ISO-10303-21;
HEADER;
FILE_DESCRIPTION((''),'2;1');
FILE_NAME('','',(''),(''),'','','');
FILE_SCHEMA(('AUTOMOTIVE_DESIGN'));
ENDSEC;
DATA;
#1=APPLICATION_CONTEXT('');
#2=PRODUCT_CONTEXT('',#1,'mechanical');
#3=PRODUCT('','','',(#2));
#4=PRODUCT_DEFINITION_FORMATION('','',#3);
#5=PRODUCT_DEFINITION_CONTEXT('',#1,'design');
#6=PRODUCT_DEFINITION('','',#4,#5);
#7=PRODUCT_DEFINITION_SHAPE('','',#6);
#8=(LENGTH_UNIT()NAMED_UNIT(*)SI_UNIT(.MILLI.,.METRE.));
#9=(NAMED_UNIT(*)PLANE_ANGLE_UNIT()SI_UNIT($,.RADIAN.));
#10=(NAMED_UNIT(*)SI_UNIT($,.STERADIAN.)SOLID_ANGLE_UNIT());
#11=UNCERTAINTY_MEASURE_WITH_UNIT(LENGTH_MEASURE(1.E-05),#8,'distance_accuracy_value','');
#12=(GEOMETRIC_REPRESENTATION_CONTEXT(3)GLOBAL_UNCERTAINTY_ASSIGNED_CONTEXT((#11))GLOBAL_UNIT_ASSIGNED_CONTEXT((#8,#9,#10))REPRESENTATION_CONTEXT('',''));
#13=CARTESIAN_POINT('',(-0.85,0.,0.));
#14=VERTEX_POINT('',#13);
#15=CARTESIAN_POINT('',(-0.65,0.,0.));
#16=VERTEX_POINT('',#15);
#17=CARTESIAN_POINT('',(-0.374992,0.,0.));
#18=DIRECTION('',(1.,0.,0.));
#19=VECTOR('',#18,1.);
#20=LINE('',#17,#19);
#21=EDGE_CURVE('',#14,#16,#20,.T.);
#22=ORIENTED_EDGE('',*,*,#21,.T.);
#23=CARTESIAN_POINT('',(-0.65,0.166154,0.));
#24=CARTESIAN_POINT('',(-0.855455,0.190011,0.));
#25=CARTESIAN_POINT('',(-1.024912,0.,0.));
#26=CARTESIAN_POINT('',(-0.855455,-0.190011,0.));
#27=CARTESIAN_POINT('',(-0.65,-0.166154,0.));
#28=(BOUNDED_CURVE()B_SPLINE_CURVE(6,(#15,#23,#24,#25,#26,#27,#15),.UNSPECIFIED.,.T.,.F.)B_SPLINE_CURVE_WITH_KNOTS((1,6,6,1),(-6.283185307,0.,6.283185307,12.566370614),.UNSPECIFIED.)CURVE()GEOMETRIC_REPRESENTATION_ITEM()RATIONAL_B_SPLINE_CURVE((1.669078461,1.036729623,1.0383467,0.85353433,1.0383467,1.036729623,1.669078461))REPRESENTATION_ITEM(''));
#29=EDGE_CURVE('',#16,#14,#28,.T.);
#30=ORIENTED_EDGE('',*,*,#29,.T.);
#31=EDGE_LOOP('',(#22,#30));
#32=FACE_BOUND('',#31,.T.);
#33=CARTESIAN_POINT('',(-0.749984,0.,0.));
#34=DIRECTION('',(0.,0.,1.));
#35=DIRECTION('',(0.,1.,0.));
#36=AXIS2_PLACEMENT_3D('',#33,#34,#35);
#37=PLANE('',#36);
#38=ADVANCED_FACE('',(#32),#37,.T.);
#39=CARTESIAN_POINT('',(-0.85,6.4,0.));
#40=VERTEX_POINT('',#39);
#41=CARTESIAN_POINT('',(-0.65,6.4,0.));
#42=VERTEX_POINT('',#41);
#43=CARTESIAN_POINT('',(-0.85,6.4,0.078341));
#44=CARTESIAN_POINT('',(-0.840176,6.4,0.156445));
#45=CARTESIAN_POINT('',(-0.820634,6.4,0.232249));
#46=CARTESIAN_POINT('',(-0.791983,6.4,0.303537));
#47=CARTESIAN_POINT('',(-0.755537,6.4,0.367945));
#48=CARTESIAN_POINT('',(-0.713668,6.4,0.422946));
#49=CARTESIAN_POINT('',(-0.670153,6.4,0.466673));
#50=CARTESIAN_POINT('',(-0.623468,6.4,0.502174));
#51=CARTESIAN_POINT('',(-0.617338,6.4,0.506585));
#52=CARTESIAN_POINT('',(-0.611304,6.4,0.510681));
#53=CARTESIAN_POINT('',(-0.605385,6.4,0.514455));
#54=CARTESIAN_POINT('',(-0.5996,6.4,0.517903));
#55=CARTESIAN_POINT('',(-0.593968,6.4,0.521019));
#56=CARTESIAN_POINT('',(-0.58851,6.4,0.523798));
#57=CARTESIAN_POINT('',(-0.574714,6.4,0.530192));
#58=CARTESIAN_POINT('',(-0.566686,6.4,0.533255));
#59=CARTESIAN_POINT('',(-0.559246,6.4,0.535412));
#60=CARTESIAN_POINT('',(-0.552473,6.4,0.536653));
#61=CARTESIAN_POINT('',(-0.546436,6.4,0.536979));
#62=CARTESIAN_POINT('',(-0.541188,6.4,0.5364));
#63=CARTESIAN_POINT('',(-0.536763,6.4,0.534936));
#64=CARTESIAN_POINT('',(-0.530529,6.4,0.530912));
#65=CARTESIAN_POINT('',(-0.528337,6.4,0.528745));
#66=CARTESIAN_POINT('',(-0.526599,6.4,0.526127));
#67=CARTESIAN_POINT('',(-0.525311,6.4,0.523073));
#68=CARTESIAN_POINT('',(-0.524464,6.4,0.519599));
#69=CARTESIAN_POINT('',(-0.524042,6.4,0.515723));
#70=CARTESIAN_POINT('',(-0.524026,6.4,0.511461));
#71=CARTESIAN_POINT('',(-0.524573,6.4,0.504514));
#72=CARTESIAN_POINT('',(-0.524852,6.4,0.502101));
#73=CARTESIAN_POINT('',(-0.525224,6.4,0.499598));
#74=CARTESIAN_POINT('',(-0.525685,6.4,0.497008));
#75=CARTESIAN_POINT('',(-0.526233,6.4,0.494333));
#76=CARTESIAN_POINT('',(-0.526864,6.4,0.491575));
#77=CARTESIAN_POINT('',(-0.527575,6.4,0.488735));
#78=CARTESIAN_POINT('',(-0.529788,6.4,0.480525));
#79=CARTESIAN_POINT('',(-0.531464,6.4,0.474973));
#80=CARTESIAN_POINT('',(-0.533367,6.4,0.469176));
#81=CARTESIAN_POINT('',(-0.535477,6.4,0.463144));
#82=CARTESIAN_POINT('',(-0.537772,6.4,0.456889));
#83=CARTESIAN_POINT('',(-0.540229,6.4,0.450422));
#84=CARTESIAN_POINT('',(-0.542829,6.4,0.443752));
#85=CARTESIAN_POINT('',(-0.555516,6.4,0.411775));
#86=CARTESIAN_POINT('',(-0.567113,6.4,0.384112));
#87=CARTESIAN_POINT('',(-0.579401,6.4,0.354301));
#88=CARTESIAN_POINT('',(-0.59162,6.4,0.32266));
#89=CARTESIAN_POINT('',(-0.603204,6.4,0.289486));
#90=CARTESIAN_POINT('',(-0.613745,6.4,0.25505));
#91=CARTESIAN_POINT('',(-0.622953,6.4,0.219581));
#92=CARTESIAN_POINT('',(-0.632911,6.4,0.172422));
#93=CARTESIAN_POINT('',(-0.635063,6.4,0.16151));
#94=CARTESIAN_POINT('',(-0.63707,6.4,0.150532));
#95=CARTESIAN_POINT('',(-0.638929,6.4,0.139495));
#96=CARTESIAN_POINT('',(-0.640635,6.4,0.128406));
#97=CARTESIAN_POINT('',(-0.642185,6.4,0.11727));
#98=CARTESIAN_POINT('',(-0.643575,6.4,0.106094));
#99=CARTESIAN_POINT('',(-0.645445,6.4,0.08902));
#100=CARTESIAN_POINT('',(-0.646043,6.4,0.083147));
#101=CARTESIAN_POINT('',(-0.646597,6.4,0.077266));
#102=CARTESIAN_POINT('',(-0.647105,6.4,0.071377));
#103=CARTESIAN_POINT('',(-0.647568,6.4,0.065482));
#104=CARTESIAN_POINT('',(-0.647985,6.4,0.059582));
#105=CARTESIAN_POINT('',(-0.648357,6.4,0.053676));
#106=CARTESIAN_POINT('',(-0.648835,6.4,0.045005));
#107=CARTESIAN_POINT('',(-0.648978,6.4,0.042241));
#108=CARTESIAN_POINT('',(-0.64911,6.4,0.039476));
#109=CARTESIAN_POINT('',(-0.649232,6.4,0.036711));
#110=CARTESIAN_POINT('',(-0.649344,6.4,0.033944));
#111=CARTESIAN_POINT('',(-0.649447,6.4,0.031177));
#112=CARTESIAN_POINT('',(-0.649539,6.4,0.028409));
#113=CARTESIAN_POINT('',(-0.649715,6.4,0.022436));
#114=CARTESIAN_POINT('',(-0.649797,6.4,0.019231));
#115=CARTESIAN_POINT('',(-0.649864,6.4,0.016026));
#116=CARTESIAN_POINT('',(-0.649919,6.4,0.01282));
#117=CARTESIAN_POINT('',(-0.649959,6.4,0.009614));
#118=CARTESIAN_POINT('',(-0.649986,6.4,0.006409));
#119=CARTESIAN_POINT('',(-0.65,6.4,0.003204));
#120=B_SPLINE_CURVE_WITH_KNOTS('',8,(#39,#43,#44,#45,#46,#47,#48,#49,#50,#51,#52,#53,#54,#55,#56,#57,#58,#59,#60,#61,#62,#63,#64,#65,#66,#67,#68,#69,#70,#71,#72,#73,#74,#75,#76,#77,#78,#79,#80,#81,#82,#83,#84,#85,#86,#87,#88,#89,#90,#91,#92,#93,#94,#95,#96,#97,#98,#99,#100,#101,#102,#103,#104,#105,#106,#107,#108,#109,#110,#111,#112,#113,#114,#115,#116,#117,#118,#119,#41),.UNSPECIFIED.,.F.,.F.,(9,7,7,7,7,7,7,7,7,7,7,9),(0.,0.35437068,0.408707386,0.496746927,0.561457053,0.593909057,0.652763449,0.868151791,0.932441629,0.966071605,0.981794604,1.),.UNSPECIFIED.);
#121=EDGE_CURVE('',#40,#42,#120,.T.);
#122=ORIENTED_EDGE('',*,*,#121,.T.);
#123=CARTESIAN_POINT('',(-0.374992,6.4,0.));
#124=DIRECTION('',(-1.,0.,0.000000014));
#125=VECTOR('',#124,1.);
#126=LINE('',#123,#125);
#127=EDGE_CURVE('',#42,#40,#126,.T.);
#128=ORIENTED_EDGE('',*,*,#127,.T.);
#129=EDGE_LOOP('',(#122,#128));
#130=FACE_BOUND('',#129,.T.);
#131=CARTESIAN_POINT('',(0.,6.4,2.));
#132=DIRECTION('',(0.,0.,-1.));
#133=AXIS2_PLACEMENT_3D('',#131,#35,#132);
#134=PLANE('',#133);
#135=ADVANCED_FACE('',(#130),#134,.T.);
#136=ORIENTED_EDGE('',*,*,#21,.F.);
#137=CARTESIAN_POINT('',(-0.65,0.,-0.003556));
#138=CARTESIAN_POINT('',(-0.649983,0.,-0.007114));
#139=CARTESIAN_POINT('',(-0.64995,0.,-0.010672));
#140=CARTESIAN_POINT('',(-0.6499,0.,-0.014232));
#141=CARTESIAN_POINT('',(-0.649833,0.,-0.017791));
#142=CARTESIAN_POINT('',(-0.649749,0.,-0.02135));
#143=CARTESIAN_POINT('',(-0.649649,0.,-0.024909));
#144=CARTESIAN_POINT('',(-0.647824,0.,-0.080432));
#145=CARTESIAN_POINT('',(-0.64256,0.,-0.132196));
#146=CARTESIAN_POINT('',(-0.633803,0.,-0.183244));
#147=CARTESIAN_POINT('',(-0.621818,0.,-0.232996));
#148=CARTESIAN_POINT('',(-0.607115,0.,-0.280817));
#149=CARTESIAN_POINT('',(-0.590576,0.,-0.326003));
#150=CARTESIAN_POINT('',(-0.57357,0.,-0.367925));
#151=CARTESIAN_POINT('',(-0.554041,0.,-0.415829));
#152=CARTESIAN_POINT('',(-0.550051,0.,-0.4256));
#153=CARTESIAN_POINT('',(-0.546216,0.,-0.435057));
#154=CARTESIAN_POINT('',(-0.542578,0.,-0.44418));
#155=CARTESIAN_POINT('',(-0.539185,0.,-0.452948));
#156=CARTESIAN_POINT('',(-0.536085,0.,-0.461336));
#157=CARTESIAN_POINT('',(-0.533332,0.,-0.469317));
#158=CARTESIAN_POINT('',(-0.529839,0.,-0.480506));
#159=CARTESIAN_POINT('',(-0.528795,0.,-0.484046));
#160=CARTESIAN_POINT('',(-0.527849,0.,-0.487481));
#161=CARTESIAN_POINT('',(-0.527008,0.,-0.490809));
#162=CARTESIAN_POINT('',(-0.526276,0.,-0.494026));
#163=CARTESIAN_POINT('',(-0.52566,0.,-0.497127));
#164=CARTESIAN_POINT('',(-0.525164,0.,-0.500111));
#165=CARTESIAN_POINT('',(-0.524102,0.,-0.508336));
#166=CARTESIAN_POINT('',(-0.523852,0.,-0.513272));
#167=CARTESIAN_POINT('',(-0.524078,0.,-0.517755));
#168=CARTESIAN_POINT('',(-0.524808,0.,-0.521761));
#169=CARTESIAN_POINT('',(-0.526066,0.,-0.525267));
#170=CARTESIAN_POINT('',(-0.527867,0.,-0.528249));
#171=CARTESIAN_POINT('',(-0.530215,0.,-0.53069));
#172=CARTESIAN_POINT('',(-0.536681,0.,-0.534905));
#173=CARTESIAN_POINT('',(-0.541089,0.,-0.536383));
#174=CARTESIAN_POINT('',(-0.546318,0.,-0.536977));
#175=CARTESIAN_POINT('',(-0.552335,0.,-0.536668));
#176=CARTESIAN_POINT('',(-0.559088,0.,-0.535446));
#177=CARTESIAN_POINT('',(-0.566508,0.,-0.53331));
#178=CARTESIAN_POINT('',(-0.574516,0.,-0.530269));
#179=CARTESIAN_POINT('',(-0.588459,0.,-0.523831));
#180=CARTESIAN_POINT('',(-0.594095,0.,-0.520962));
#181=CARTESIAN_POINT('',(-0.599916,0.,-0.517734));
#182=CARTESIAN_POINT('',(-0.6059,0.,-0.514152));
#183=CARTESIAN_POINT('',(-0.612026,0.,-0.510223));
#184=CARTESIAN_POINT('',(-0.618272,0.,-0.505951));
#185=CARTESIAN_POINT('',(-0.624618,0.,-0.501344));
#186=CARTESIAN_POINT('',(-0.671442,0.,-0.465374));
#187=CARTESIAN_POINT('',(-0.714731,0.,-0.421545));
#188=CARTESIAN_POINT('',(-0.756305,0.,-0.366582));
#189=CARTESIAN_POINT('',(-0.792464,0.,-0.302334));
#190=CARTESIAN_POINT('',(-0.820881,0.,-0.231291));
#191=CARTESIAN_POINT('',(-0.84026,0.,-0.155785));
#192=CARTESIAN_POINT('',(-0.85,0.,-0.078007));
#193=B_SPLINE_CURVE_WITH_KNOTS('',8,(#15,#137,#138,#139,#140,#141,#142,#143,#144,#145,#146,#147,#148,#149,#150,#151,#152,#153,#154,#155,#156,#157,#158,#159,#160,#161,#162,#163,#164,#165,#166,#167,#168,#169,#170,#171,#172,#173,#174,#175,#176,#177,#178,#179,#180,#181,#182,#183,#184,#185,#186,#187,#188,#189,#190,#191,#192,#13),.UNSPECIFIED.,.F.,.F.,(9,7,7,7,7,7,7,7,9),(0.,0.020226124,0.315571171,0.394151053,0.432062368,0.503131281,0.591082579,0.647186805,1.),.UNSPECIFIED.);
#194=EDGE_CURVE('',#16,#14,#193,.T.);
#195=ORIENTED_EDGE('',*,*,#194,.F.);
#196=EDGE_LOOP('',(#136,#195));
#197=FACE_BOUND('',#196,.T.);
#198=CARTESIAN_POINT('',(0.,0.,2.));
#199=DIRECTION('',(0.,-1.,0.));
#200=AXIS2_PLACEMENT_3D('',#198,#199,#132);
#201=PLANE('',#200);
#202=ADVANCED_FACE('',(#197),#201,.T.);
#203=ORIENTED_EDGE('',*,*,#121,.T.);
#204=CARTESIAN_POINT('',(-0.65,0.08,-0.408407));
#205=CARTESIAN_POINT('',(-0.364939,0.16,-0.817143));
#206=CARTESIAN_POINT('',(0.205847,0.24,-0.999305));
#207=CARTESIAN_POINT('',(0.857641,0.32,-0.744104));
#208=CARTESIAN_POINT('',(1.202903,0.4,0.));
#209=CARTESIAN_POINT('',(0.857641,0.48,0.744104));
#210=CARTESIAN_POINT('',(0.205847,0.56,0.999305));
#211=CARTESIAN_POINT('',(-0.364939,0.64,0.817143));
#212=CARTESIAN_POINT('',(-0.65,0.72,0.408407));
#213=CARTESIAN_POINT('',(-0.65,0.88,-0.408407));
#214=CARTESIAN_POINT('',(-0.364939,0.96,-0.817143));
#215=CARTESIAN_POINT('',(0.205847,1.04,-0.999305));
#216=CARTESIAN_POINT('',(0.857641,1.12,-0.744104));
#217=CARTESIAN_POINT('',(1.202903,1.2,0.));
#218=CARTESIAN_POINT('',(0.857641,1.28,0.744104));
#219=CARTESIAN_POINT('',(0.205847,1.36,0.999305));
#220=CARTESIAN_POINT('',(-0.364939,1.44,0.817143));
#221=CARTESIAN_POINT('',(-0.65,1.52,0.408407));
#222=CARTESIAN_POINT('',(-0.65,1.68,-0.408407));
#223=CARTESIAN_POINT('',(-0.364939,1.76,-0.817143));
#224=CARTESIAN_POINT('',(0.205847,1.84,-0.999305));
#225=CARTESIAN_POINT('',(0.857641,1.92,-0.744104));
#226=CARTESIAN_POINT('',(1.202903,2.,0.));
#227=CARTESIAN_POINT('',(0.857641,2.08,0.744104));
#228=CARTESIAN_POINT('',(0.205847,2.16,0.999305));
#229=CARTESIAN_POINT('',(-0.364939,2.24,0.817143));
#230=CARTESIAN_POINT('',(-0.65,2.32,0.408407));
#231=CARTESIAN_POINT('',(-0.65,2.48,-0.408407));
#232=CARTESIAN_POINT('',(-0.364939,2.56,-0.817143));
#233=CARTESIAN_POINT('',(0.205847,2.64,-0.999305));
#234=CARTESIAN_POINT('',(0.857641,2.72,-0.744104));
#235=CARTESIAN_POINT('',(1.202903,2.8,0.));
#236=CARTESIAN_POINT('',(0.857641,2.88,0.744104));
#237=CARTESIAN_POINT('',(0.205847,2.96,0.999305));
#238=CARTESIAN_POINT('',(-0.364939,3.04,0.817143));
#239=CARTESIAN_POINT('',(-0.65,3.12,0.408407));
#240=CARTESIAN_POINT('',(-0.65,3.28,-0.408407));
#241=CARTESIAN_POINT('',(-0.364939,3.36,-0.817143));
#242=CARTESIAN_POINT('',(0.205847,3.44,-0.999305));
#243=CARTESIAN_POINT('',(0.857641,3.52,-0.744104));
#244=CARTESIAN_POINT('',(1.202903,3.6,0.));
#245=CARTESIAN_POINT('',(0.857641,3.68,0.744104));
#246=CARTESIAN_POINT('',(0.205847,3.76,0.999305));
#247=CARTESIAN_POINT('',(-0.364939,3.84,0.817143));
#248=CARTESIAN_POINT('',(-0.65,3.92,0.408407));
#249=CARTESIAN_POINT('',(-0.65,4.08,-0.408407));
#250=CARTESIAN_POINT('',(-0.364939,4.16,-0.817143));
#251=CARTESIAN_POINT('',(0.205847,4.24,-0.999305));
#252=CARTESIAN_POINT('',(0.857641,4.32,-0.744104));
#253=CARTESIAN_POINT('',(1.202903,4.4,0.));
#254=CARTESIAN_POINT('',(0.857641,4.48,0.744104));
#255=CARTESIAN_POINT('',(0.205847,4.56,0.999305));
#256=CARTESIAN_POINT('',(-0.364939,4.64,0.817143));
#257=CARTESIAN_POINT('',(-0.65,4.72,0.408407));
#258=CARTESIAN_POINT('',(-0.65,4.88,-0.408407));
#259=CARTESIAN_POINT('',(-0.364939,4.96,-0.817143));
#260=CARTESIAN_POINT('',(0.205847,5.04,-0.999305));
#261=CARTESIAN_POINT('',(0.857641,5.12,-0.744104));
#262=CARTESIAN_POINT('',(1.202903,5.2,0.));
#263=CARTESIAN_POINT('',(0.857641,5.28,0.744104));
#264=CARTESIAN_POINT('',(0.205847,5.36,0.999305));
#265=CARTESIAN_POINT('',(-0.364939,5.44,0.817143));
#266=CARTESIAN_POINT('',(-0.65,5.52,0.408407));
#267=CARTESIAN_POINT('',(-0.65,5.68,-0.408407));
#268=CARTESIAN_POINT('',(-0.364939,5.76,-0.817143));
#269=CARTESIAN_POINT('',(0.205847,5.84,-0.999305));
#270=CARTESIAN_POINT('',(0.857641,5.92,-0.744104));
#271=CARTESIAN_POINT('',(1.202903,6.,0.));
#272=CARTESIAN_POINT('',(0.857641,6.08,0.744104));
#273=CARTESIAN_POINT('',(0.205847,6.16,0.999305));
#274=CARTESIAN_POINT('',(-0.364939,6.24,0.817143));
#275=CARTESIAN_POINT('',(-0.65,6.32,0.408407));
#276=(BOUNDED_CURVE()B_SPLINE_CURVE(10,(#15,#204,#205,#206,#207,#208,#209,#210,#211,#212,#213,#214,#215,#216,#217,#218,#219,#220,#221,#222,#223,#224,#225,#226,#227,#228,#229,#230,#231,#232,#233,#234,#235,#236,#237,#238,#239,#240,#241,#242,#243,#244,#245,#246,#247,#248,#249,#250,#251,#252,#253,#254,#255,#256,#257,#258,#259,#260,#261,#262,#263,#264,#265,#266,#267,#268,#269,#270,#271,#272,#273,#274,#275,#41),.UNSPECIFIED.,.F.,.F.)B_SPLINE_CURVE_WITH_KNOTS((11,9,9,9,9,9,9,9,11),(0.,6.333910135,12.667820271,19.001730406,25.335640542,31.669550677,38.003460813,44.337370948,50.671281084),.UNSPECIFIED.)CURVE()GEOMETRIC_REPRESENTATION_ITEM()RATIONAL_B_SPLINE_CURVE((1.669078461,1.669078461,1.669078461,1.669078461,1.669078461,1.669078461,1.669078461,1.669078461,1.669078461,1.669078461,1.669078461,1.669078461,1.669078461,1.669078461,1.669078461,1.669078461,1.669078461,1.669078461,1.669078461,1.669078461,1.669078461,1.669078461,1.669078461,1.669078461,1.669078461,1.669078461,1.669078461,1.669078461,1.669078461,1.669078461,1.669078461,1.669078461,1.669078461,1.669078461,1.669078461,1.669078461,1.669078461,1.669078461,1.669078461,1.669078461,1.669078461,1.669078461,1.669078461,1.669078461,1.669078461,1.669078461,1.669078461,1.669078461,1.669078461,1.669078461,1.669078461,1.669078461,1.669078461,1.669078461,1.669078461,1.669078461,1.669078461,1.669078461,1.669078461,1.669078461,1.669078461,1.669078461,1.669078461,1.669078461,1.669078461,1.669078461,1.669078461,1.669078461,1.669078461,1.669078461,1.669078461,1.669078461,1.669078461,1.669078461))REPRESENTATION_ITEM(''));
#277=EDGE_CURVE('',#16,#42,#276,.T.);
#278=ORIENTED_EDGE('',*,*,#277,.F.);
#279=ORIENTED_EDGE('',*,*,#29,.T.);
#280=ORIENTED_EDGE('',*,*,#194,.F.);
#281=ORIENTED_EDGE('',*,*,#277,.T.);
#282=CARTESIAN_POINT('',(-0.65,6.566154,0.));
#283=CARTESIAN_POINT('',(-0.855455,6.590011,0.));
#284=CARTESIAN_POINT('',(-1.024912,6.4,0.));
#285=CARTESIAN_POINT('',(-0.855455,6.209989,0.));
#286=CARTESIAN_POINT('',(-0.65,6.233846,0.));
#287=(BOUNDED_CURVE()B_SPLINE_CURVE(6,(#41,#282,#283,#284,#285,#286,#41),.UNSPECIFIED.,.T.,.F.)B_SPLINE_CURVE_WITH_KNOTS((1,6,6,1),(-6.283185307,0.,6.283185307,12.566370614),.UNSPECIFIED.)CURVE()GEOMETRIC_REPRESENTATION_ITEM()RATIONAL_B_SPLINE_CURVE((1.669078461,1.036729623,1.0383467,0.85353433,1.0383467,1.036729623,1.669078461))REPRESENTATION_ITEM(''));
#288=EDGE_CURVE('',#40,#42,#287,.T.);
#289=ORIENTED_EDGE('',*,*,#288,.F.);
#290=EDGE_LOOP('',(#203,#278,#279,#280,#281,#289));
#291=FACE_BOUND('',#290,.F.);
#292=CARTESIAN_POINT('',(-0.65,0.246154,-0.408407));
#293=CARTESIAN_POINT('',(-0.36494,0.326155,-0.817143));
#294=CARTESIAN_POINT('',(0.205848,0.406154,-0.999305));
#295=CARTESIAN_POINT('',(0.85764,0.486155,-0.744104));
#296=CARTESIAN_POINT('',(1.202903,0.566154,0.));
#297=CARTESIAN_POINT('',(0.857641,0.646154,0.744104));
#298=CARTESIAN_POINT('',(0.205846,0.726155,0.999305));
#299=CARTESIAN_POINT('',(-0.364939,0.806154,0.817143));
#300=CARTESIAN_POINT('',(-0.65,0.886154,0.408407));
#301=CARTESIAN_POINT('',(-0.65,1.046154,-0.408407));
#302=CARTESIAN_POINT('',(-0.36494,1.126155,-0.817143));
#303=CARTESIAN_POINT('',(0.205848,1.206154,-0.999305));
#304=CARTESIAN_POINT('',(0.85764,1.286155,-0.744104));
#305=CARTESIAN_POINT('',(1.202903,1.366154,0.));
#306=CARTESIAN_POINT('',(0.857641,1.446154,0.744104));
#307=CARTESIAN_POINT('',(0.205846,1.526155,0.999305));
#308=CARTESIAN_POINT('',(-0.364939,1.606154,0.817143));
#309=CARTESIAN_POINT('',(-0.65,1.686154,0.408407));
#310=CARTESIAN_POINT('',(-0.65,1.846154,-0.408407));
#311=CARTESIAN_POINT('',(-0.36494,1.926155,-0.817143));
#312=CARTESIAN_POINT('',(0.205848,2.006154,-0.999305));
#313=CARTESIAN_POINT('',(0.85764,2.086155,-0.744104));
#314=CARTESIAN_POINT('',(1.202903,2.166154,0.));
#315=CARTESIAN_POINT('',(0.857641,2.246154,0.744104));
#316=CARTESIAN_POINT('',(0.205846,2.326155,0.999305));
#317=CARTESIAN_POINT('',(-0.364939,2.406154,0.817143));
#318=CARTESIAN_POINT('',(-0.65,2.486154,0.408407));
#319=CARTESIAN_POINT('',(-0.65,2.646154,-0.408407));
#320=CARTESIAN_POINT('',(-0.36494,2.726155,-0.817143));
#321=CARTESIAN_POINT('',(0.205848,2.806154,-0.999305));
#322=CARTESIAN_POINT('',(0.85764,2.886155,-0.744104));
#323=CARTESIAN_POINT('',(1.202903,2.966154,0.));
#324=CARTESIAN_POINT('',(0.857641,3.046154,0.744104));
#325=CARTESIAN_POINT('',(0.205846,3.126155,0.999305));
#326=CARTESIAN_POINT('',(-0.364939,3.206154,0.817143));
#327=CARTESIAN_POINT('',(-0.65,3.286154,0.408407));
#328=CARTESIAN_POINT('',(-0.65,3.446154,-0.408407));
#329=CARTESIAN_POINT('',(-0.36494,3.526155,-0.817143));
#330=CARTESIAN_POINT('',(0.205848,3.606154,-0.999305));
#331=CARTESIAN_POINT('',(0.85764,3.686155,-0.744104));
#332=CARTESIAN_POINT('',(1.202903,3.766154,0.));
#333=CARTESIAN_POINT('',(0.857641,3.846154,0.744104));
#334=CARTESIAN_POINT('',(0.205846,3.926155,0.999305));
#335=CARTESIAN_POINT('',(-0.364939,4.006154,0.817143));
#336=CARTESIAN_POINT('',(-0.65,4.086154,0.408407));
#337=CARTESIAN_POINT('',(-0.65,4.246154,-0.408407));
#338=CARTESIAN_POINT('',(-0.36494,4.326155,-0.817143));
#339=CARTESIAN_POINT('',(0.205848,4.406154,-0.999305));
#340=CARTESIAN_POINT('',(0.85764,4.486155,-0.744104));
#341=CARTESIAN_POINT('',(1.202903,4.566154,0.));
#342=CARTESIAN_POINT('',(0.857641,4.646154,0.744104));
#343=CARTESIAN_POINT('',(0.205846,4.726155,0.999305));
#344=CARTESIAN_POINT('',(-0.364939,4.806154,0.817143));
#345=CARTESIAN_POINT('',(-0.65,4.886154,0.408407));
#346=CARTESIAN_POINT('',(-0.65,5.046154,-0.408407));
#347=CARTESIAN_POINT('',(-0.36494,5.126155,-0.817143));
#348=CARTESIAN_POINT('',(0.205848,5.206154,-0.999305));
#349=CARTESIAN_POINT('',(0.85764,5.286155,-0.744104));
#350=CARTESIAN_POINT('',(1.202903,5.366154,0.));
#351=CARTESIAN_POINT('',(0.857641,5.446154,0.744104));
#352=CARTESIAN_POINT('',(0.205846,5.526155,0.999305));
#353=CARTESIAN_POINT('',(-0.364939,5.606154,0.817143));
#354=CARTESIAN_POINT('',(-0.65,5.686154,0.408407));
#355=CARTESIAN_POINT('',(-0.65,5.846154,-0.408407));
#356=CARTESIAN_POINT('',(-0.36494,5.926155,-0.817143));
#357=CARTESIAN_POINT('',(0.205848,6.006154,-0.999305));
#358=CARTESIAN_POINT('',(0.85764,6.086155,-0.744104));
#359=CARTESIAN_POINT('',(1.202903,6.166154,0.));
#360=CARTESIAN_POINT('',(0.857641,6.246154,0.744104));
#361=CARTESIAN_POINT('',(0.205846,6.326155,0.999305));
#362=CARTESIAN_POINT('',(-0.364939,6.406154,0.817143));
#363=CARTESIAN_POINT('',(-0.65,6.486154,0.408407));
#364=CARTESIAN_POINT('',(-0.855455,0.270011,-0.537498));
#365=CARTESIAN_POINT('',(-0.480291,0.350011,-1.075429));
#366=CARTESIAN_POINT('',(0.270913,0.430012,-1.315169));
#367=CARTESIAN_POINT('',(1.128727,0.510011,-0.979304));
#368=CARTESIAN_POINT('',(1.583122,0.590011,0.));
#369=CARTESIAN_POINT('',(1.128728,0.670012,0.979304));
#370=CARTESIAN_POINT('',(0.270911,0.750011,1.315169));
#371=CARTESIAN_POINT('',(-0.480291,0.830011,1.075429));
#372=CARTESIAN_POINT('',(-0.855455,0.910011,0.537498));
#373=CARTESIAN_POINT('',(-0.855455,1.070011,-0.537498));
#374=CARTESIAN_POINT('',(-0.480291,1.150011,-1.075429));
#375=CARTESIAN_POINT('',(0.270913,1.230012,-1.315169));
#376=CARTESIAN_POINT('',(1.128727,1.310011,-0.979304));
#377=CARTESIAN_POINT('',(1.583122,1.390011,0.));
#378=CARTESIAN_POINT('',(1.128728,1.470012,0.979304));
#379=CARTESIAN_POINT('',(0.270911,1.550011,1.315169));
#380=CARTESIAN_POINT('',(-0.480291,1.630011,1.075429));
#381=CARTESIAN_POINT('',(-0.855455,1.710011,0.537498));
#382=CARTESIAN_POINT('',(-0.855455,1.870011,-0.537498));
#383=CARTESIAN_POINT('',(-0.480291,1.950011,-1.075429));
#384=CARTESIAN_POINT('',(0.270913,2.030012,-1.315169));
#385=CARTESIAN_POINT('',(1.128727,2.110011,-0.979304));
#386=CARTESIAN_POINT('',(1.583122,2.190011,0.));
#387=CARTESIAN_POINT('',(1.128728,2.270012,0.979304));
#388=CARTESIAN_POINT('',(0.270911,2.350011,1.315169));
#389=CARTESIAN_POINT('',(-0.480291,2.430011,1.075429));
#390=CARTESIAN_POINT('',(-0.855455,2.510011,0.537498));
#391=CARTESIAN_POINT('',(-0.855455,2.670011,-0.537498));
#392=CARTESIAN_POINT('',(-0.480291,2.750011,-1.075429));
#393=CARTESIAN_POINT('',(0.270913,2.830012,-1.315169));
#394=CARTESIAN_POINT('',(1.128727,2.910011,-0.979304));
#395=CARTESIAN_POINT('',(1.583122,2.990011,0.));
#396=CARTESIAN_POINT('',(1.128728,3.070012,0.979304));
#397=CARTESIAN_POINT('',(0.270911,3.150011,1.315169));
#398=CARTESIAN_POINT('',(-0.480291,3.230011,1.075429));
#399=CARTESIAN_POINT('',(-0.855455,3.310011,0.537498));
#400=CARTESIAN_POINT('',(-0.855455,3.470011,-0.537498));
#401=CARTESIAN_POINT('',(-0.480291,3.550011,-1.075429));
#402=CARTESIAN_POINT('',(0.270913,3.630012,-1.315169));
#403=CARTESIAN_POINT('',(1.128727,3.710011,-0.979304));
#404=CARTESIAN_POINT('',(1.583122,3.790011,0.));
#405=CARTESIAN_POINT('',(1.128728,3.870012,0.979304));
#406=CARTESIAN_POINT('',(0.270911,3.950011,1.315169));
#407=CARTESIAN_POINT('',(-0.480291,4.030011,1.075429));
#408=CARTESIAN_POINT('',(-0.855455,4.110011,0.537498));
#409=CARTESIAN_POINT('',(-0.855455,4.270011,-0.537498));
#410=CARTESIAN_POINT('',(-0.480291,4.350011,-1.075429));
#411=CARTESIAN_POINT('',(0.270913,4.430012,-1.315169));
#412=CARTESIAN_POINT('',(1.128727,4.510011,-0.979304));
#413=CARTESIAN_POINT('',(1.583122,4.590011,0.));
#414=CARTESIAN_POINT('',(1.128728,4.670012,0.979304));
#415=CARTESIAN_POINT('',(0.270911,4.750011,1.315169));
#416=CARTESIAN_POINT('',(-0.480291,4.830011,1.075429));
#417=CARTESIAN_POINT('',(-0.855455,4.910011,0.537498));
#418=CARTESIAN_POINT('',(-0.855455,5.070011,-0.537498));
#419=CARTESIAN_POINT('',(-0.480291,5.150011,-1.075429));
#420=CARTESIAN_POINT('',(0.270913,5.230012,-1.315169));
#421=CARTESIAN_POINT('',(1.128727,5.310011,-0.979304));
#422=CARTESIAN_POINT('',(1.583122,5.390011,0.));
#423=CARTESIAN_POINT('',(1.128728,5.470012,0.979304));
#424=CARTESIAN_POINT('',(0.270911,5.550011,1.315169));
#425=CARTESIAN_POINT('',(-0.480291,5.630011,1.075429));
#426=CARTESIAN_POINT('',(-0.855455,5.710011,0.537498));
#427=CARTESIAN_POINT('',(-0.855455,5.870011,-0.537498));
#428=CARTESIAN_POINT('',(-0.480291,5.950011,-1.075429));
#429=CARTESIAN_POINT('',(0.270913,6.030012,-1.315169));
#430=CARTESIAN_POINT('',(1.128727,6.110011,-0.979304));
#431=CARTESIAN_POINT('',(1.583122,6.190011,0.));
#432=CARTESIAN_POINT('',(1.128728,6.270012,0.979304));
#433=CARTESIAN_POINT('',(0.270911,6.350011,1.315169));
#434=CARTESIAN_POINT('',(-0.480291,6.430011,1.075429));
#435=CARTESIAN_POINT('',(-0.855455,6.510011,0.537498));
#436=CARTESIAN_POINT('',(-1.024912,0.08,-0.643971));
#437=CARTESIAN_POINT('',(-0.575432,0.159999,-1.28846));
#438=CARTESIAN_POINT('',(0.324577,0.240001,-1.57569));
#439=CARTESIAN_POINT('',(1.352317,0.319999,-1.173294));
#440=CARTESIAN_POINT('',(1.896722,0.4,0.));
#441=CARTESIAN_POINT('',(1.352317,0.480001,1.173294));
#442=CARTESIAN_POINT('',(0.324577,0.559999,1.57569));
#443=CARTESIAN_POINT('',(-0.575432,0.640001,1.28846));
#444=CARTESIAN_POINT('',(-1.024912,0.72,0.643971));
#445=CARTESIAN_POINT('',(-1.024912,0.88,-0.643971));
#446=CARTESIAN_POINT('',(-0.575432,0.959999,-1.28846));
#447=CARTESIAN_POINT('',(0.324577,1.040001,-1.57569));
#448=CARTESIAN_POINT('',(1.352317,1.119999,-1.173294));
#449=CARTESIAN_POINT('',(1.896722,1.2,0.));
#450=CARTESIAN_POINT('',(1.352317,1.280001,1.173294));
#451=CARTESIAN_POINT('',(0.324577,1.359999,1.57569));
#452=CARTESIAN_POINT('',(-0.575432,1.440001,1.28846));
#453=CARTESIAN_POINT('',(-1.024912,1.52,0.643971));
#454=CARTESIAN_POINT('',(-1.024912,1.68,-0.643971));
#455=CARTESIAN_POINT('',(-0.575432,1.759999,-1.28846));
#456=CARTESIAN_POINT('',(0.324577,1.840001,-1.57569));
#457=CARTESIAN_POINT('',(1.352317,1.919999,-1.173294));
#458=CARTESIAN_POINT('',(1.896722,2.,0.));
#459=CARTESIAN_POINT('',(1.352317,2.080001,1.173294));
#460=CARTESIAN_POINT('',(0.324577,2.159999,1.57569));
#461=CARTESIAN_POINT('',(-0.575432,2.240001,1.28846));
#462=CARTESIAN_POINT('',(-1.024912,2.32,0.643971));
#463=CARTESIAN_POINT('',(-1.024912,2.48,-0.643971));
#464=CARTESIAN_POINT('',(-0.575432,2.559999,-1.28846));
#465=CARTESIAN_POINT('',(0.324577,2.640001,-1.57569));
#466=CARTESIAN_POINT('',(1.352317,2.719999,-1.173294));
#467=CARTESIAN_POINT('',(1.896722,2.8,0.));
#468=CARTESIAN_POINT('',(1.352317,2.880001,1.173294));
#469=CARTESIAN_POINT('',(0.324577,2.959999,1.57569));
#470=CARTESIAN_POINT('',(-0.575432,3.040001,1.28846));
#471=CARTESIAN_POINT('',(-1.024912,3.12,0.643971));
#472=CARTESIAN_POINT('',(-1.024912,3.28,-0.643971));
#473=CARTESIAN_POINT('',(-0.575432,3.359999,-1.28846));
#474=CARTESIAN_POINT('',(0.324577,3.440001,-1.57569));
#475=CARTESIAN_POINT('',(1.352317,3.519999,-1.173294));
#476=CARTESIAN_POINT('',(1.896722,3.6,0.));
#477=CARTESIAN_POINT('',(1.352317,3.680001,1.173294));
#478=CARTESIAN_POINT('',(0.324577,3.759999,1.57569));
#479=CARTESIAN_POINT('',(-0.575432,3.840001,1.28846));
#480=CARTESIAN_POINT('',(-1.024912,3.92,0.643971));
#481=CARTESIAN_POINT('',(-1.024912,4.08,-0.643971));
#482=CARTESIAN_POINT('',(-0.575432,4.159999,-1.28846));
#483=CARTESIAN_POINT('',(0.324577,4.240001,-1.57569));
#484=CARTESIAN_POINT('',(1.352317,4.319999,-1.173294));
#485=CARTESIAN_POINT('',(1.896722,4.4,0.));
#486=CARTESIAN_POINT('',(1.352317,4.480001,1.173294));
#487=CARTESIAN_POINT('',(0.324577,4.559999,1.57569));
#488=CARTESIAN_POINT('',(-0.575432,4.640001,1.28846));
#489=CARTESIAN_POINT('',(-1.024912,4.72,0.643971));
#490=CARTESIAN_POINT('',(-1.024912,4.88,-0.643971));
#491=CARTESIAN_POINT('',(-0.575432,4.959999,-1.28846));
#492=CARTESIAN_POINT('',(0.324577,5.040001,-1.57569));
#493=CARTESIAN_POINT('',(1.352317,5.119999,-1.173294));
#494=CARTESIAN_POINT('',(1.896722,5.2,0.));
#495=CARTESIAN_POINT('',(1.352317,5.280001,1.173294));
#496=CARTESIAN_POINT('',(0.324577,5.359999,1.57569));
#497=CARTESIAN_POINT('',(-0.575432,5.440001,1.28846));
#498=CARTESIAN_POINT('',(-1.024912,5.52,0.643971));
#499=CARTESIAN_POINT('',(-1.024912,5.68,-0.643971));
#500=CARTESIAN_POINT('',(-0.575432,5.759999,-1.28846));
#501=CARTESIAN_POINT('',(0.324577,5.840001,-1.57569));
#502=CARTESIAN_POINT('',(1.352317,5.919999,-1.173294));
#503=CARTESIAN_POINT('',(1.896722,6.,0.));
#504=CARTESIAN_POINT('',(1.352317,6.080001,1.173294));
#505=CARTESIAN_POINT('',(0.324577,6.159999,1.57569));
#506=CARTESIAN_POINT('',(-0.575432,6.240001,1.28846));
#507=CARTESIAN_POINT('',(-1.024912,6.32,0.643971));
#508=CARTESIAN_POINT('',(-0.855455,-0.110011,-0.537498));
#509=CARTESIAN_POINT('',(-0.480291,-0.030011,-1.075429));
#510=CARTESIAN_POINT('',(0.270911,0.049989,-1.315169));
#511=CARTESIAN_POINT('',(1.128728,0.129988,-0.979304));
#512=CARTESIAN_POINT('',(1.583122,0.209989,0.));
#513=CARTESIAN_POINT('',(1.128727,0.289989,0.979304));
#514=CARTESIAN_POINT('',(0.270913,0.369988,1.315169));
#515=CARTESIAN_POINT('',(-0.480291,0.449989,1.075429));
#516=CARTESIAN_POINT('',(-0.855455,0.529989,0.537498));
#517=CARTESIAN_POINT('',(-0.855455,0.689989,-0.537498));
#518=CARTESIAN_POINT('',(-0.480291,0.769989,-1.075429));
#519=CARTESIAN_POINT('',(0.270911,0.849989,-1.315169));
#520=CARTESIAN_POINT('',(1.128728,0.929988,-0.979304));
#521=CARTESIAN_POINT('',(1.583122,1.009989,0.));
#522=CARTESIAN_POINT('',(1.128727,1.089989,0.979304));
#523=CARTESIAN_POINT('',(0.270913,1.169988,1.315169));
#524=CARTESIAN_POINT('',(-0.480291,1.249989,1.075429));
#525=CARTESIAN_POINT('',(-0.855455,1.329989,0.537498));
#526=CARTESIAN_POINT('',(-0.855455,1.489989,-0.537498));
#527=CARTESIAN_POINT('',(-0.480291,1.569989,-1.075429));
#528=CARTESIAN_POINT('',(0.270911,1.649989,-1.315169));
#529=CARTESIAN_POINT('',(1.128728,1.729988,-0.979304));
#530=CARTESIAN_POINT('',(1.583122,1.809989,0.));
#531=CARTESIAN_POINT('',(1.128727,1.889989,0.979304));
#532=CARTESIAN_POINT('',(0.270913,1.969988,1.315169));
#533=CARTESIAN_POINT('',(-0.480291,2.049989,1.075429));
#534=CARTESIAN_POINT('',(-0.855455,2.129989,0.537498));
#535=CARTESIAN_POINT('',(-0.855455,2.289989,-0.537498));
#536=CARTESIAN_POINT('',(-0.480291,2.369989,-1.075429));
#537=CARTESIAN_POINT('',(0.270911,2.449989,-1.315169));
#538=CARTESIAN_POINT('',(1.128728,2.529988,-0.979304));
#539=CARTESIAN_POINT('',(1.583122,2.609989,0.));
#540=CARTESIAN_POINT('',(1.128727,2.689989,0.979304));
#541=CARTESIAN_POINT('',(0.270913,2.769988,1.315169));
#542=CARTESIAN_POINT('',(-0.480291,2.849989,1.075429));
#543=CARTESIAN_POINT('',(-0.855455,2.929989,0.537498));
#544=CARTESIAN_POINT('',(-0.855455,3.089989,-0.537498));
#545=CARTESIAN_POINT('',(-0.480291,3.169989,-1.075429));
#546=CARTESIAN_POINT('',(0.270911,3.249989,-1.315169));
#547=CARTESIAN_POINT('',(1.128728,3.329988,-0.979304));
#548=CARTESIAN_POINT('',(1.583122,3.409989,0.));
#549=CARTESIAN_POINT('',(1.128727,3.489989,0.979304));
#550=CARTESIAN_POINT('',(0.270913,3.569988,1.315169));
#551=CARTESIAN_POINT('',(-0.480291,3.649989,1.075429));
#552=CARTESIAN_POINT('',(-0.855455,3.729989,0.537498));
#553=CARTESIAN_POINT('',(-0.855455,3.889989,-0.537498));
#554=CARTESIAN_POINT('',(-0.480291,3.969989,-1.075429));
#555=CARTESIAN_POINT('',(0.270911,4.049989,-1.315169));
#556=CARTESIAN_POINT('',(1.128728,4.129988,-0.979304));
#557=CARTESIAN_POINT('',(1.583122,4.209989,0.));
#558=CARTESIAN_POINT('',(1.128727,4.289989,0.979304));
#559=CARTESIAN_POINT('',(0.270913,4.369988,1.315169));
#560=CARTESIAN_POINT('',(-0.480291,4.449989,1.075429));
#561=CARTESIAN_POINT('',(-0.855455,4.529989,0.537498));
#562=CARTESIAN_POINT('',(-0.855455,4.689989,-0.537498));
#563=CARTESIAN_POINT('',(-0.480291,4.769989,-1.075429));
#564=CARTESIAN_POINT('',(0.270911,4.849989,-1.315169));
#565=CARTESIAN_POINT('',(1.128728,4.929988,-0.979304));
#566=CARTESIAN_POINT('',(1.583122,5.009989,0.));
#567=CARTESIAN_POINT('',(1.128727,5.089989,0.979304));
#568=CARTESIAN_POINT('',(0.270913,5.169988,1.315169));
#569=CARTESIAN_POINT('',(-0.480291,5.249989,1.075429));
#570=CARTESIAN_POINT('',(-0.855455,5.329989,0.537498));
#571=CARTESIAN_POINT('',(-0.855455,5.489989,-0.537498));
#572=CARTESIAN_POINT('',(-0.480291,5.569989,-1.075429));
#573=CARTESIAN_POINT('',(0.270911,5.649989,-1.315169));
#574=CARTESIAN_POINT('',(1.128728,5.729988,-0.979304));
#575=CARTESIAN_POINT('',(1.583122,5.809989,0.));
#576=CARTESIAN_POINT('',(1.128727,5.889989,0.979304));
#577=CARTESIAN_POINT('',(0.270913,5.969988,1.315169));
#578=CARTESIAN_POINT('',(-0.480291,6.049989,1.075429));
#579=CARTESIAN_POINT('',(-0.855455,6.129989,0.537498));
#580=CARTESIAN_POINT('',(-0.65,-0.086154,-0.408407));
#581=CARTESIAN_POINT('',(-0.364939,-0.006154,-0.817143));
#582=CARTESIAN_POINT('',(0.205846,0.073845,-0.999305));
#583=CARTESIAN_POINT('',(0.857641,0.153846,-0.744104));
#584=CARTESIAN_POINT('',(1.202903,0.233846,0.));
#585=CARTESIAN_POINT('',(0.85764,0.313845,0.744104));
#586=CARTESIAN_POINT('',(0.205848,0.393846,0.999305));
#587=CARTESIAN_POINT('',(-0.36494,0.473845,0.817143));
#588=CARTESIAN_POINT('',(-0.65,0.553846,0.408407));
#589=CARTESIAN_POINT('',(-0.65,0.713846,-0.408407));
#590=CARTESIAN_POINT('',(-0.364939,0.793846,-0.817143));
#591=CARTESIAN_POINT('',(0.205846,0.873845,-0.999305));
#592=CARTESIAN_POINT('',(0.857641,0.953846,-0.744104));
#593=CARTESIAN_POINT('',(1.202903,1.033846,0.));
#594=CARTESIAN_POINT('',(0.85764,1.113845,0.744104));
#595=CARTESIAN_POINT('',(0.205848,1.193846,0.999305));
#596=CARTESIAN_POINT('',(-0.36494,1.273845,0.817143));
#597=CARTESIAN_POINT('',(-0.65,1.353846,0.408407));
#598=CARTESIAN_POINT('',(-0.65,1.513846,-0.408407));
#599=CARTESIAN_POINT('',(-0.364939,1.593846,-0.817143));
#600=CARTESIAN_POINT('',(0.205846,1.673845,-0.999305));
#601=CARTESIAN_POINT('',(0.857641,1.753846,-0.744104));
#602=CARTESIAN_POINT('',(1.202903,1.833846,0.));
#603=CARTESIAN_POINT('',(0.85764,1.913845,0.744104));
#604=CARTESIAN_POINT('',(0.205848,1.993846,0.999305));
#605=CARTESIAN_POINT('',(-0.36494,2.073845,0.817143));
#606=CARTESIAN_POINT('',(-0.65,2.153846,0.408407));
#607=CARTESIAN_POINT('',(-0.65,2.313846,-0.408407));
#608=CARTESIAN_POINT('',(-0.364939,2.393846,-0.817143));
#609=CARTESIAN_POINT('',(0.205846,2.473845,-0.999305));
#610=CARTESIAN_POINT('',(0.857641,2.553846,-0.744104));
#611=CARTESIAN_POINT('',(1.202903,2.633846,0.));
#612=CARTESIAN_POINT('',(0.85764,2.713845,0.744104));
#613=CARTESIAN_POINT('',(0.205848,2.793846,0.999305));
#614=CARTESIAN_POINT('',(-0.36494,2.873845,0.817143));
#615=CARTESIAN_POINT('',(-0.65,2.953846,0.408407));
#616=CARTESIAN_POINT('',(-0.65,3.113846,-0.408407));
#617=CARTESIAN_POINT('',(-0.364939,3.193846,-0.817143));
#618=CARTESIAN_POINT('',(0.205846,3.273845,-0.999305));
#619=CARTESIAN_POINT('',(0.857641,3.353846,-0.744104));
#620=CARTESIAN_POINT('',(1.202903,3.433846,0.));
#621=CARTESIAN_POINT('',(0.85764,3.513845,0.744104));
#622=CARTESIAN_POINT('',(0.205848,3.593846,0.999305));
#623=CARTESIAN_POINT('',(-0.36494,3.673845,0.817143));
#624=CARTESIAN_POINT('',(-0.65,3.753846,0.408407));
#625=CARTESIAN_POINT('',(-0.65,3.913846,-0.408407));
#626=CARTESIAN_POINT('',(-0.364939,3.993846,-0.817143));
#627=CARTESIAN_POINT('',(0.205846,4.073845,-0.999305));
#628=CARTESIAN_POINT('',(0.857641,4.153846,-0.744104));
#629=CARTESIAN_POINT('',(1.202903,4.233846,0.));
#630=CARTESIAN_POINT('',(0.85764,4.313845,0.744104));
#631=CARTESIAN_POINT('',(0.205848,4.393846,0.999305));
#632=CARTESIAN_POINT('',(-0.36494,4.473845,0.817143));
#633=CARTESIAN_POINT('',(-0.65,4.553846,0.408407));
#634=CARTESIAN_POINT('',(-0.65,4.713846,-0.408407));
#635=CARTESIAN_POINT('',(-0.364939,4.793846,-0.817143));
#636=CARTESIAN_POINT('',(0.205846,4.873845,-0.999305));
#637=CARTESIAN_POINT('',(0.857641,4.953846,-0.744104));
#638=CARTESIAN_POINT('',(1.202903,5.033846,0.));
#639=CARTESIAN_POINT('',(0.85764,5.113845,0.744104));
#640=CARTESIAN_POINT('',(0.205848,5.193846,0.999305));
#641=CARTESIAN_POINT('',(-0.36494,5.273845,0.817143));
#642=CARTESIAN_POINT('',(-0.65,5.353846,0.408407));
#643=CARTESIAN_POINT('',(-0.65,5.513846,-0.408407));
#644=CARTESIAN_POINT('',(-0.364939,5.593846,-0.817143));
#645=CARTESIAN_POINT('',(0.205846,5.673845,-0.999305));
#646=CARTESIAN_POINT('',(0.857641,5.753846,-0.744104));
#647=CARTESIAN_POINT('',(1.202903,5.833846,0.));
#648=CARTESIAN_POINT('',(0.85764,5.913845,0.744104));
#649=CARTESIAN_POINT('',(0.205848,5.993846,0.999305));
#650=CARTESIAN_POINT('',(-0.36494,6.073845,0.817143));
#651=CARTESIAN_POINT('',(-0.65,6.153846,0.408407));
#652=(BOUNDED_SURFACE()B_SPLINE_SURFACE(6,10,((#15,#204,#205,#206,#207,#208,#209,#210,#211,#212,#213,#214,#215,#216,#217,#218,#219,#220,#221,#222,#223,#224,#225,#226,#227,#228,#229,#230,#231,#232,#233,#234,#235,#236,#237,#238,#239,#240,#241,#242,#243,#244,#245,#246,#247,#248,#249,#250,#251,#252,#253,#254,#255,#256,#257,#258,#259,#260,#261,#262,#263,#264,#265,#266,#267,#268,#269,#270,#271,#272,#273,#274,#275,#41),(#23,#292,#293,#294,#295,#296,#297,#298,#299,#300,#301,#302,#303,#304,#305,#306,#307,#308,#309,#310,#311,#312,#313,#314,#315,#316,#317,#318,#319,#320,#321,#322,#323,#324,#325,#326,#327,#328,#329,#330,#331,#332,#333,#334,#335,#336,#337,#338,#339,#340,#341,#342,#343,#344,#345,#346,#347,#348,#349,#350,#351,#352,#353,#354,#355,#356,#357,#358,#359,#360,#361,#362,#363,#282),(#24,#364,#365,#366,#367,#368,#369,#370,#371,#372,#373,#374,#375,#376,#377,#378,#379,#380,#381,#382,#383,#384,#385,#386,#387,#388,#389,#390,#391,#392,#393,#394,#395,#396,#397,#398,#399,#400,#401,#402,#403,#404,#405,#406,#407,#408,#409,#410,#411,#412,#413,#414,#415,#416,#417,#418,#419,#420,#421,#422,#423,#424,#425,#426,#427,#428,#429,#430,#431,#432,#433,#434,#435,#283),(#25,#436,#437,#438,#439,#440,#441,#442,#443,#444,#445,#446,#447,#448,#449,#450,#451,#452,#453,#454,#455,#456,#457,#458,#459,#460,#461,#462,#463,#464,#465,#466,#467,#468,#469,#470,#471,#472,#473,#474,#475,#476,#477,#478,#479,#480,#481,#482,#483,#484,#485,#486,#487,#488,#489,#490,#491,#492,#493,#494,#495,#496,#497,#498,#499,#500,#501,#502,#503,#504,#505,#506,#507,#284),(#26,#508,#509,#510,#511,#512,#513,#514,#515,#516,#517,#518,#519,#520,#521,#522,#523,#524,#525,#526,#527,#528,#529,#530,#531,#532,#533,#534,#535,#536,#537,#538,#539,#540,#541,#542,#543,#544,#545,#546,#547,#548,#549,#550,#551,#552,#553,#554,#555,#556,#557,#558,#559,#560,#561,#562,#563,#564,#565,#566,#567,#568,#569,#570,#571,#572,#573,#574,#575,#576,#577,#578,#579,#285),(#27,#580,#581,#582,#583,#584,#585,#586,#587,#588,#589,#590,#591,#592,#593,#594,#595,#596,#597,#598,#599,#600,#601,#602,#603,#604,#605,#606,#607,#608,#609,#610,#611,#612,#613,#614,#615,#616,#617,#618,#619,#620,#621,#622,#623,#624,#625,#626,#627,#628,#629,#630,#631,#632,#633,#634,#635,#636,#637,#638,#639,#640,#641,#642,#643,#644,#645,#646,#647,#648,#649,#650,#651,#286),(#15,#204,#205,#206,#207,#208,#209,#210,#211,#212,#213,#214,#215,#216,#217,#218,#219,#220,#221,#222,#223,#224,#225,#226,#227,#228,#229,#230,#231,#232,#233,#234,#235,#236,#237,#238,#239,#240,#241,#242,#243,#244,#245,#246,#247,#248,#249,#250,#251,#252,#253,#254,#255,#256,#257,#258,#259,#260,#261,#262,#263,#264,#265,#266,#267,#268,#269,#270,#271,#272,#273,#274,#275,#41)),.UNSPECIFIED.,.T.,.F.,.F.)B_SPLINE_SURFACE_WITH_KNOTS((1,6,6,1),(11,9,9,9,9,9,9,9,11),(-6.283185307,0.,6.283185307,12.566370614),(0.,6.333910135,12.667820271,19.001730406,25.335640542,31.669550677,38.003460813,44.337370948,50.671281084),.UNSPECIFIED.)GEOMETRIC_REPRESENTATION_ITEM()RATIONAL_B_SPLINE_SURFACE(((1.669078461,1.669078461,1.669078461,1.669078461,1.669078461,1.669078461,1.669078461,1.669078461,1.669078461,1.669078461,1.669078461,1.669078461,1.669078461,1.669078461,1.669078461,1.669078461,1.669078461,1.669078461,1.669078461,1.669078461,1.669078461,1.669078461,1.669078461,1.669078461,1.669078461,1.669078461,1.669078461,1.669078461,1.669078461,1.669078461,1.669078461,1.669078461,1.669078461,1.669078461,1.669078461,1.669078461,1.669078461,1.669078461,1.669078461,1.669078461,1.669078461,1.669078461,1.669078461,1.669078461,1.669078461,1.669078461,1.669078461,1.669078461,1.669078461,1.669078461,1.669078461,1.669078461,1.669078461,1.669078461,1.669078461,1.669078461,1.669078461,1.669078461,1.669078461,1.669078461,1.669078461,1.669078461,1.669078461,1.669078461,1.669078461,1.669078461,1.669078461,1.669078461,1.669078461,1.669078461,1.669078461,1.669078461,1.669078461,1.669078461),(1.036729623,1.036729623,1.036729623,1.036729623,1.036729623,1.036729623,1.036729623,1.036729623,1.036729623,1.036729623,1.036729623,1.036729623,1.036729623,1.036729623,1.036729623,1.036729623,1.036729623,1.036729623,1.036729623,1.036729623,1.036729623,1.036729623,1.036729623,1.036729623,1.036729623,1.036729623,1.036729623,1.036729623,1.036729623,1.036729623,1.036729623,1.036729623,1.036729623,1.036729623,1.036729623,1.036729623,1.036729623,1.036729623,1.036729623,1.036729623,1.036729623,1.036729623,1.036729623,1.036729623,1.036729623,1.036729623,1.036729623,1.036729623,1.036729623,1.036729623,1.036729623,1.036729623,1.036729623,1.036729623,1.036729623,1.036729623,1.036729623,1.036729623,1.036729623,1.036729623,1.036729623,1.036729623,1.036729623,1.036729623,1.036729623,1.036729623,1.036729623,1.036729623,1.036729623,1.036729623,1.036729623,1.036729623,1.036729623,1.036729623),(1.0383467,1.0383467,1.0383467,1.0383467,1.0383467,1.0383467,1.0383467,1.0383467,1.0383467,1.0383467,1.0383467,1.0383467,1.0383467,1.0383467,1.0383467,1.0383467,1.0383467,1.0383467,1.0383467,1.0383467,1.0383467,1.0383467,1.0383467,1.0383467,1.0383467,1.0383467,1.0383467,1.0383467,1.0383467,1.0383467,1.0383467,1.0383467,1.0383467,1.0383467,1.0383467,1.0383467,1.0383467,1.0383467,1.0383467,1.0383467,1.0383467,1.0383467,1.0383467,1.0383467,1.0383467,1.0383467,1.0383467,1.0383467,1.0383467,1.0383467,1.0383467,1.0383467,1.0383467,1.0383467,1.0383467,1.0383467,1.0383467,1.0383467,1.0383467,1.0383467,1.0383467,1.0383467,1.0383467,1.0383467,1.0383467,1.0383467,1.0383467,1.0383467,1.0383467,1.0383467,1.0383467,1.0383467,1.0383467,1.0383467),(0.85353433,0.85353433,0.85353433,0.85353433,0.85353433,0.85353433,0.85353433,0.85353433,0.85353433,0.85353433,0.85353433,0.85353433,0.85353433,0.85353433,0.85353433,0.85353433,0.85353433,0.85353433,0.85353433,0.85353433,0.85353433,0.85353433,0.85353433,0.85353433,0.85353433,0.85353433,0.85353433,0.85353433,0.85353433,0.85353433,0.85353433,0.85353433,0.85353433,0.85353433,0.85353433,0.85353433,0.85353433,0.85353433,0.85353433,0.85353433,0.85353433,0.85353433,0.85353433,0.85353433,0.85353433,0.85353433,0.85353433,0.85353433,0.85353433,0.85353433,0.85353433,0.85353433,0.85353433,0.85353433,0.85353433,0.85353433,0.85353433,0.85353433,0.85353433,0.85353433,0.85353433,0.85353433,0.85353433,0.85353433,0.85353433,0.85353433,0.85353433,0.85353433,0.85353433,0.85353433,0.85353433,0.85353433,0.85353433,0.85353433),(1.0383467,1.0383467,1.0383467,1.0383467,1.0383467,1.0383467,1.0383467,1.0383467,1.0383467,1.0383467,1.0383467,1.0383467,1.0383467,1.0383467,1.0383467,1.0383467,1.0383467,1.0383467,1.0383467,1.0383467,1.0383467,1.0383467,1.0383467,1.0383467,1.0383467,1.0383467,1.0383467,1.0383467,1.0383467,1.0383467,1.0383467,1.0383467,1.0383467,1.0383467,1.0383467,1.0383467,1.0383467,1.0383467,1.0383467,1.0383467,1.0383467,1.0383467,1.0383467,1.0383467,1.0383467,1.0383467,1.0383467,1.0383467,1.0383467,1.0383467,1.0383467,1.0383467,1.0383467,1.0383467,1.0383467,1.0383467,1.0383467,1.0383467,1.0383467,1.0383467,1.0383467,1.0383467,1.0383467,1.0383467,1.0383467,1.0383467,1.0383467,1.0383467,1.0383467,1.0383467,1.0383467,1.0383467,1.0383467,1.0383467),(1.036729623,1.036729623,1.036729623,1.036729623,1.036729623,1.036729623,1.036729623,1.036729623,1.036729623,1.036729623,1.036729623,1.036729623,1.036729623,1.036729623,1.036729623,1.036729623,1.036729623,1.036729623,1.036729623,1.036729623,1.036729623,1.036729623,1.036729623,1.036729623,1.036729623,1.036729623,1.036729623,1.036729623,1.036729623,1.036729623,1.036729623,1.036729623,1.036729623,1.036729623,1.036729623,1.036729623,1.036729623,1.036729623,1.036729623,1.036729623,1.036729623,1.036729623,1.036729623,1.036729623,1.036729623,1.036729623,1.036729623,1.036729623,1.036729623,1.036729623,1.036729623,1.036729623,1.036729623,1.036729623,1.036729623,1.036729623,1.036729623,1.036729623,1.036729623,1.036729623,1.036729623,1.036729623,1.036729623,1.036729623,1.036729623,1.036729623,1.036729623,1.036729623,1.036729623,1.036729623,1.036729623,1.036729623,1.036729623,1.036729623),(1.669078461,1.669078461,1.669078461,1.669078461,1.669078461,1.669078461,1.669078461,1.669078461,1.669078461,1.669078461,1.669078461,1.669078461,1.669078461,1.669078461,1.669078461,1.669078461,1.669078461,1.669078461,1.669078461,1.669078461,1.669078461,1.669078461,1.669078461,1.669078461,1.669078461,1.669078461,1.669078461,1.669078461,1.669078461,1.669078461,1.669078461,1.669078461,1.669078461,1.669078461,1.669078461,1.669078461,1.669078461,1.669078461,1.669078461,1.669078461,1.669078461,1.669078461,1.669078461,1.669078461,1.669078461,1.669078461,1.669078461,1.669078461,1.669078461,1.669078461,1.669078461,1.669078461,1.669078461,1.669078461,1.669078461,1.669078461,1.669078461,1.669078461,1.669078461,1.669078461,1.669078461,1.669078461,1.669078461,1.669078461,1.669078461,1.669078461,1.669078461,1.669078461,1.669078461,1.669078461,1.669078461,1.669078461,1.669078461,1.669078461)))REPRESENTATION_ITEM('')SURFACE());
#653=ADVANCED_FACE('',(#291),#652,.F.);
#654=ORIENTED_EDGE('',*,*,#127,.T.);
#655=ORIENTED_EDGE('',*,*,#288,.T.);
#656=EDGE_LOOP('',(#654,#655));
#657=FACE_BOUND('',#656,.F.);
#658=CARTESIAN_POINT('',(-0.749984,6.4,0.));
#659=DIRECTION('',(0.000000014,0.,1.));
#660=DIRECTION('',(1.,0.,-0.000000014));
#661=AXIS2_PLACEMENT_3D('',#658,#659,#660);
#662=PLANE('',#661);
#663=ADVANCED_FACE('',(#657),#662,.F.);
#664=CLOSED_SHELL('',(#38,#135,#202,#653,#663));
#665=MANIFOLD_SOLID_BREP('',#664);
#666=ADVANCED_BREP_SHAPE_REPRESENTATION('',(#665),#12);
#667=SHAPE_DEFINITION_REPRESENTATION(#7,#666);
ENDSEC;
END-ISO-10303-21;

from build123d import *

# Parameters (mm, degrees)
SWEEP2_PITCH       = 0.8
SWEEP2_HEIGHT      = 6.4
SWEEP2_RADIUS      = 0.75
SWEEP2_START_ANGLE = -90
SKETCH3_R          = 0.1
SKETCH4_W          = 4
SKETCH4_H          = 0.70629387
SKETCH4_H_2        = 0.5
CUT_EXTRUDE1_DEPTH = 5


with BuildPart() as part:
    # Sweep2: sweep along a helix
    with BuildLine() as sweep2_path:
        add(Helix(SWEEP2_PITCH, SWEEP2_HEIGHT, SWEEP2_RADIUS, center=(0, 0, 0), direction=(0, 1, 0), lefthand=True, mode=Mode.PRIVATE).rotate(Axis((0, 0, 0), (0, 1, 0)), SWEEP2_START_ANGLE))
    # Sketch3 → Sweep2 (sweep)
    with BuildSketch(Plane.XY):
        with Locations((-0.75, 0)):
            Circle(SKETCH3_R)
    sweep(path=sweep2_path.line, is_frenet=True)

    # Sketch4 → Cut-Extrude1 (cut, symmetric)
    with BuildSketch(Plane(origin=(0, 0, 0), x_dir=(0, 0, -1), z_dir=(1, 0, 0))):
        with Locations((0, 6.753146935)):
            Rectangle(SKETCH4_W, SKETCH4_H)
        with Locations((0, -0.25)):
            Rectangle(SKETCH4_W, SKETCH4_H_2)
    extrude(amount=CUT_EXTRUDE1_DEPTH, both=True, mode=Mode.SUBTRACT)


solid = part.part
